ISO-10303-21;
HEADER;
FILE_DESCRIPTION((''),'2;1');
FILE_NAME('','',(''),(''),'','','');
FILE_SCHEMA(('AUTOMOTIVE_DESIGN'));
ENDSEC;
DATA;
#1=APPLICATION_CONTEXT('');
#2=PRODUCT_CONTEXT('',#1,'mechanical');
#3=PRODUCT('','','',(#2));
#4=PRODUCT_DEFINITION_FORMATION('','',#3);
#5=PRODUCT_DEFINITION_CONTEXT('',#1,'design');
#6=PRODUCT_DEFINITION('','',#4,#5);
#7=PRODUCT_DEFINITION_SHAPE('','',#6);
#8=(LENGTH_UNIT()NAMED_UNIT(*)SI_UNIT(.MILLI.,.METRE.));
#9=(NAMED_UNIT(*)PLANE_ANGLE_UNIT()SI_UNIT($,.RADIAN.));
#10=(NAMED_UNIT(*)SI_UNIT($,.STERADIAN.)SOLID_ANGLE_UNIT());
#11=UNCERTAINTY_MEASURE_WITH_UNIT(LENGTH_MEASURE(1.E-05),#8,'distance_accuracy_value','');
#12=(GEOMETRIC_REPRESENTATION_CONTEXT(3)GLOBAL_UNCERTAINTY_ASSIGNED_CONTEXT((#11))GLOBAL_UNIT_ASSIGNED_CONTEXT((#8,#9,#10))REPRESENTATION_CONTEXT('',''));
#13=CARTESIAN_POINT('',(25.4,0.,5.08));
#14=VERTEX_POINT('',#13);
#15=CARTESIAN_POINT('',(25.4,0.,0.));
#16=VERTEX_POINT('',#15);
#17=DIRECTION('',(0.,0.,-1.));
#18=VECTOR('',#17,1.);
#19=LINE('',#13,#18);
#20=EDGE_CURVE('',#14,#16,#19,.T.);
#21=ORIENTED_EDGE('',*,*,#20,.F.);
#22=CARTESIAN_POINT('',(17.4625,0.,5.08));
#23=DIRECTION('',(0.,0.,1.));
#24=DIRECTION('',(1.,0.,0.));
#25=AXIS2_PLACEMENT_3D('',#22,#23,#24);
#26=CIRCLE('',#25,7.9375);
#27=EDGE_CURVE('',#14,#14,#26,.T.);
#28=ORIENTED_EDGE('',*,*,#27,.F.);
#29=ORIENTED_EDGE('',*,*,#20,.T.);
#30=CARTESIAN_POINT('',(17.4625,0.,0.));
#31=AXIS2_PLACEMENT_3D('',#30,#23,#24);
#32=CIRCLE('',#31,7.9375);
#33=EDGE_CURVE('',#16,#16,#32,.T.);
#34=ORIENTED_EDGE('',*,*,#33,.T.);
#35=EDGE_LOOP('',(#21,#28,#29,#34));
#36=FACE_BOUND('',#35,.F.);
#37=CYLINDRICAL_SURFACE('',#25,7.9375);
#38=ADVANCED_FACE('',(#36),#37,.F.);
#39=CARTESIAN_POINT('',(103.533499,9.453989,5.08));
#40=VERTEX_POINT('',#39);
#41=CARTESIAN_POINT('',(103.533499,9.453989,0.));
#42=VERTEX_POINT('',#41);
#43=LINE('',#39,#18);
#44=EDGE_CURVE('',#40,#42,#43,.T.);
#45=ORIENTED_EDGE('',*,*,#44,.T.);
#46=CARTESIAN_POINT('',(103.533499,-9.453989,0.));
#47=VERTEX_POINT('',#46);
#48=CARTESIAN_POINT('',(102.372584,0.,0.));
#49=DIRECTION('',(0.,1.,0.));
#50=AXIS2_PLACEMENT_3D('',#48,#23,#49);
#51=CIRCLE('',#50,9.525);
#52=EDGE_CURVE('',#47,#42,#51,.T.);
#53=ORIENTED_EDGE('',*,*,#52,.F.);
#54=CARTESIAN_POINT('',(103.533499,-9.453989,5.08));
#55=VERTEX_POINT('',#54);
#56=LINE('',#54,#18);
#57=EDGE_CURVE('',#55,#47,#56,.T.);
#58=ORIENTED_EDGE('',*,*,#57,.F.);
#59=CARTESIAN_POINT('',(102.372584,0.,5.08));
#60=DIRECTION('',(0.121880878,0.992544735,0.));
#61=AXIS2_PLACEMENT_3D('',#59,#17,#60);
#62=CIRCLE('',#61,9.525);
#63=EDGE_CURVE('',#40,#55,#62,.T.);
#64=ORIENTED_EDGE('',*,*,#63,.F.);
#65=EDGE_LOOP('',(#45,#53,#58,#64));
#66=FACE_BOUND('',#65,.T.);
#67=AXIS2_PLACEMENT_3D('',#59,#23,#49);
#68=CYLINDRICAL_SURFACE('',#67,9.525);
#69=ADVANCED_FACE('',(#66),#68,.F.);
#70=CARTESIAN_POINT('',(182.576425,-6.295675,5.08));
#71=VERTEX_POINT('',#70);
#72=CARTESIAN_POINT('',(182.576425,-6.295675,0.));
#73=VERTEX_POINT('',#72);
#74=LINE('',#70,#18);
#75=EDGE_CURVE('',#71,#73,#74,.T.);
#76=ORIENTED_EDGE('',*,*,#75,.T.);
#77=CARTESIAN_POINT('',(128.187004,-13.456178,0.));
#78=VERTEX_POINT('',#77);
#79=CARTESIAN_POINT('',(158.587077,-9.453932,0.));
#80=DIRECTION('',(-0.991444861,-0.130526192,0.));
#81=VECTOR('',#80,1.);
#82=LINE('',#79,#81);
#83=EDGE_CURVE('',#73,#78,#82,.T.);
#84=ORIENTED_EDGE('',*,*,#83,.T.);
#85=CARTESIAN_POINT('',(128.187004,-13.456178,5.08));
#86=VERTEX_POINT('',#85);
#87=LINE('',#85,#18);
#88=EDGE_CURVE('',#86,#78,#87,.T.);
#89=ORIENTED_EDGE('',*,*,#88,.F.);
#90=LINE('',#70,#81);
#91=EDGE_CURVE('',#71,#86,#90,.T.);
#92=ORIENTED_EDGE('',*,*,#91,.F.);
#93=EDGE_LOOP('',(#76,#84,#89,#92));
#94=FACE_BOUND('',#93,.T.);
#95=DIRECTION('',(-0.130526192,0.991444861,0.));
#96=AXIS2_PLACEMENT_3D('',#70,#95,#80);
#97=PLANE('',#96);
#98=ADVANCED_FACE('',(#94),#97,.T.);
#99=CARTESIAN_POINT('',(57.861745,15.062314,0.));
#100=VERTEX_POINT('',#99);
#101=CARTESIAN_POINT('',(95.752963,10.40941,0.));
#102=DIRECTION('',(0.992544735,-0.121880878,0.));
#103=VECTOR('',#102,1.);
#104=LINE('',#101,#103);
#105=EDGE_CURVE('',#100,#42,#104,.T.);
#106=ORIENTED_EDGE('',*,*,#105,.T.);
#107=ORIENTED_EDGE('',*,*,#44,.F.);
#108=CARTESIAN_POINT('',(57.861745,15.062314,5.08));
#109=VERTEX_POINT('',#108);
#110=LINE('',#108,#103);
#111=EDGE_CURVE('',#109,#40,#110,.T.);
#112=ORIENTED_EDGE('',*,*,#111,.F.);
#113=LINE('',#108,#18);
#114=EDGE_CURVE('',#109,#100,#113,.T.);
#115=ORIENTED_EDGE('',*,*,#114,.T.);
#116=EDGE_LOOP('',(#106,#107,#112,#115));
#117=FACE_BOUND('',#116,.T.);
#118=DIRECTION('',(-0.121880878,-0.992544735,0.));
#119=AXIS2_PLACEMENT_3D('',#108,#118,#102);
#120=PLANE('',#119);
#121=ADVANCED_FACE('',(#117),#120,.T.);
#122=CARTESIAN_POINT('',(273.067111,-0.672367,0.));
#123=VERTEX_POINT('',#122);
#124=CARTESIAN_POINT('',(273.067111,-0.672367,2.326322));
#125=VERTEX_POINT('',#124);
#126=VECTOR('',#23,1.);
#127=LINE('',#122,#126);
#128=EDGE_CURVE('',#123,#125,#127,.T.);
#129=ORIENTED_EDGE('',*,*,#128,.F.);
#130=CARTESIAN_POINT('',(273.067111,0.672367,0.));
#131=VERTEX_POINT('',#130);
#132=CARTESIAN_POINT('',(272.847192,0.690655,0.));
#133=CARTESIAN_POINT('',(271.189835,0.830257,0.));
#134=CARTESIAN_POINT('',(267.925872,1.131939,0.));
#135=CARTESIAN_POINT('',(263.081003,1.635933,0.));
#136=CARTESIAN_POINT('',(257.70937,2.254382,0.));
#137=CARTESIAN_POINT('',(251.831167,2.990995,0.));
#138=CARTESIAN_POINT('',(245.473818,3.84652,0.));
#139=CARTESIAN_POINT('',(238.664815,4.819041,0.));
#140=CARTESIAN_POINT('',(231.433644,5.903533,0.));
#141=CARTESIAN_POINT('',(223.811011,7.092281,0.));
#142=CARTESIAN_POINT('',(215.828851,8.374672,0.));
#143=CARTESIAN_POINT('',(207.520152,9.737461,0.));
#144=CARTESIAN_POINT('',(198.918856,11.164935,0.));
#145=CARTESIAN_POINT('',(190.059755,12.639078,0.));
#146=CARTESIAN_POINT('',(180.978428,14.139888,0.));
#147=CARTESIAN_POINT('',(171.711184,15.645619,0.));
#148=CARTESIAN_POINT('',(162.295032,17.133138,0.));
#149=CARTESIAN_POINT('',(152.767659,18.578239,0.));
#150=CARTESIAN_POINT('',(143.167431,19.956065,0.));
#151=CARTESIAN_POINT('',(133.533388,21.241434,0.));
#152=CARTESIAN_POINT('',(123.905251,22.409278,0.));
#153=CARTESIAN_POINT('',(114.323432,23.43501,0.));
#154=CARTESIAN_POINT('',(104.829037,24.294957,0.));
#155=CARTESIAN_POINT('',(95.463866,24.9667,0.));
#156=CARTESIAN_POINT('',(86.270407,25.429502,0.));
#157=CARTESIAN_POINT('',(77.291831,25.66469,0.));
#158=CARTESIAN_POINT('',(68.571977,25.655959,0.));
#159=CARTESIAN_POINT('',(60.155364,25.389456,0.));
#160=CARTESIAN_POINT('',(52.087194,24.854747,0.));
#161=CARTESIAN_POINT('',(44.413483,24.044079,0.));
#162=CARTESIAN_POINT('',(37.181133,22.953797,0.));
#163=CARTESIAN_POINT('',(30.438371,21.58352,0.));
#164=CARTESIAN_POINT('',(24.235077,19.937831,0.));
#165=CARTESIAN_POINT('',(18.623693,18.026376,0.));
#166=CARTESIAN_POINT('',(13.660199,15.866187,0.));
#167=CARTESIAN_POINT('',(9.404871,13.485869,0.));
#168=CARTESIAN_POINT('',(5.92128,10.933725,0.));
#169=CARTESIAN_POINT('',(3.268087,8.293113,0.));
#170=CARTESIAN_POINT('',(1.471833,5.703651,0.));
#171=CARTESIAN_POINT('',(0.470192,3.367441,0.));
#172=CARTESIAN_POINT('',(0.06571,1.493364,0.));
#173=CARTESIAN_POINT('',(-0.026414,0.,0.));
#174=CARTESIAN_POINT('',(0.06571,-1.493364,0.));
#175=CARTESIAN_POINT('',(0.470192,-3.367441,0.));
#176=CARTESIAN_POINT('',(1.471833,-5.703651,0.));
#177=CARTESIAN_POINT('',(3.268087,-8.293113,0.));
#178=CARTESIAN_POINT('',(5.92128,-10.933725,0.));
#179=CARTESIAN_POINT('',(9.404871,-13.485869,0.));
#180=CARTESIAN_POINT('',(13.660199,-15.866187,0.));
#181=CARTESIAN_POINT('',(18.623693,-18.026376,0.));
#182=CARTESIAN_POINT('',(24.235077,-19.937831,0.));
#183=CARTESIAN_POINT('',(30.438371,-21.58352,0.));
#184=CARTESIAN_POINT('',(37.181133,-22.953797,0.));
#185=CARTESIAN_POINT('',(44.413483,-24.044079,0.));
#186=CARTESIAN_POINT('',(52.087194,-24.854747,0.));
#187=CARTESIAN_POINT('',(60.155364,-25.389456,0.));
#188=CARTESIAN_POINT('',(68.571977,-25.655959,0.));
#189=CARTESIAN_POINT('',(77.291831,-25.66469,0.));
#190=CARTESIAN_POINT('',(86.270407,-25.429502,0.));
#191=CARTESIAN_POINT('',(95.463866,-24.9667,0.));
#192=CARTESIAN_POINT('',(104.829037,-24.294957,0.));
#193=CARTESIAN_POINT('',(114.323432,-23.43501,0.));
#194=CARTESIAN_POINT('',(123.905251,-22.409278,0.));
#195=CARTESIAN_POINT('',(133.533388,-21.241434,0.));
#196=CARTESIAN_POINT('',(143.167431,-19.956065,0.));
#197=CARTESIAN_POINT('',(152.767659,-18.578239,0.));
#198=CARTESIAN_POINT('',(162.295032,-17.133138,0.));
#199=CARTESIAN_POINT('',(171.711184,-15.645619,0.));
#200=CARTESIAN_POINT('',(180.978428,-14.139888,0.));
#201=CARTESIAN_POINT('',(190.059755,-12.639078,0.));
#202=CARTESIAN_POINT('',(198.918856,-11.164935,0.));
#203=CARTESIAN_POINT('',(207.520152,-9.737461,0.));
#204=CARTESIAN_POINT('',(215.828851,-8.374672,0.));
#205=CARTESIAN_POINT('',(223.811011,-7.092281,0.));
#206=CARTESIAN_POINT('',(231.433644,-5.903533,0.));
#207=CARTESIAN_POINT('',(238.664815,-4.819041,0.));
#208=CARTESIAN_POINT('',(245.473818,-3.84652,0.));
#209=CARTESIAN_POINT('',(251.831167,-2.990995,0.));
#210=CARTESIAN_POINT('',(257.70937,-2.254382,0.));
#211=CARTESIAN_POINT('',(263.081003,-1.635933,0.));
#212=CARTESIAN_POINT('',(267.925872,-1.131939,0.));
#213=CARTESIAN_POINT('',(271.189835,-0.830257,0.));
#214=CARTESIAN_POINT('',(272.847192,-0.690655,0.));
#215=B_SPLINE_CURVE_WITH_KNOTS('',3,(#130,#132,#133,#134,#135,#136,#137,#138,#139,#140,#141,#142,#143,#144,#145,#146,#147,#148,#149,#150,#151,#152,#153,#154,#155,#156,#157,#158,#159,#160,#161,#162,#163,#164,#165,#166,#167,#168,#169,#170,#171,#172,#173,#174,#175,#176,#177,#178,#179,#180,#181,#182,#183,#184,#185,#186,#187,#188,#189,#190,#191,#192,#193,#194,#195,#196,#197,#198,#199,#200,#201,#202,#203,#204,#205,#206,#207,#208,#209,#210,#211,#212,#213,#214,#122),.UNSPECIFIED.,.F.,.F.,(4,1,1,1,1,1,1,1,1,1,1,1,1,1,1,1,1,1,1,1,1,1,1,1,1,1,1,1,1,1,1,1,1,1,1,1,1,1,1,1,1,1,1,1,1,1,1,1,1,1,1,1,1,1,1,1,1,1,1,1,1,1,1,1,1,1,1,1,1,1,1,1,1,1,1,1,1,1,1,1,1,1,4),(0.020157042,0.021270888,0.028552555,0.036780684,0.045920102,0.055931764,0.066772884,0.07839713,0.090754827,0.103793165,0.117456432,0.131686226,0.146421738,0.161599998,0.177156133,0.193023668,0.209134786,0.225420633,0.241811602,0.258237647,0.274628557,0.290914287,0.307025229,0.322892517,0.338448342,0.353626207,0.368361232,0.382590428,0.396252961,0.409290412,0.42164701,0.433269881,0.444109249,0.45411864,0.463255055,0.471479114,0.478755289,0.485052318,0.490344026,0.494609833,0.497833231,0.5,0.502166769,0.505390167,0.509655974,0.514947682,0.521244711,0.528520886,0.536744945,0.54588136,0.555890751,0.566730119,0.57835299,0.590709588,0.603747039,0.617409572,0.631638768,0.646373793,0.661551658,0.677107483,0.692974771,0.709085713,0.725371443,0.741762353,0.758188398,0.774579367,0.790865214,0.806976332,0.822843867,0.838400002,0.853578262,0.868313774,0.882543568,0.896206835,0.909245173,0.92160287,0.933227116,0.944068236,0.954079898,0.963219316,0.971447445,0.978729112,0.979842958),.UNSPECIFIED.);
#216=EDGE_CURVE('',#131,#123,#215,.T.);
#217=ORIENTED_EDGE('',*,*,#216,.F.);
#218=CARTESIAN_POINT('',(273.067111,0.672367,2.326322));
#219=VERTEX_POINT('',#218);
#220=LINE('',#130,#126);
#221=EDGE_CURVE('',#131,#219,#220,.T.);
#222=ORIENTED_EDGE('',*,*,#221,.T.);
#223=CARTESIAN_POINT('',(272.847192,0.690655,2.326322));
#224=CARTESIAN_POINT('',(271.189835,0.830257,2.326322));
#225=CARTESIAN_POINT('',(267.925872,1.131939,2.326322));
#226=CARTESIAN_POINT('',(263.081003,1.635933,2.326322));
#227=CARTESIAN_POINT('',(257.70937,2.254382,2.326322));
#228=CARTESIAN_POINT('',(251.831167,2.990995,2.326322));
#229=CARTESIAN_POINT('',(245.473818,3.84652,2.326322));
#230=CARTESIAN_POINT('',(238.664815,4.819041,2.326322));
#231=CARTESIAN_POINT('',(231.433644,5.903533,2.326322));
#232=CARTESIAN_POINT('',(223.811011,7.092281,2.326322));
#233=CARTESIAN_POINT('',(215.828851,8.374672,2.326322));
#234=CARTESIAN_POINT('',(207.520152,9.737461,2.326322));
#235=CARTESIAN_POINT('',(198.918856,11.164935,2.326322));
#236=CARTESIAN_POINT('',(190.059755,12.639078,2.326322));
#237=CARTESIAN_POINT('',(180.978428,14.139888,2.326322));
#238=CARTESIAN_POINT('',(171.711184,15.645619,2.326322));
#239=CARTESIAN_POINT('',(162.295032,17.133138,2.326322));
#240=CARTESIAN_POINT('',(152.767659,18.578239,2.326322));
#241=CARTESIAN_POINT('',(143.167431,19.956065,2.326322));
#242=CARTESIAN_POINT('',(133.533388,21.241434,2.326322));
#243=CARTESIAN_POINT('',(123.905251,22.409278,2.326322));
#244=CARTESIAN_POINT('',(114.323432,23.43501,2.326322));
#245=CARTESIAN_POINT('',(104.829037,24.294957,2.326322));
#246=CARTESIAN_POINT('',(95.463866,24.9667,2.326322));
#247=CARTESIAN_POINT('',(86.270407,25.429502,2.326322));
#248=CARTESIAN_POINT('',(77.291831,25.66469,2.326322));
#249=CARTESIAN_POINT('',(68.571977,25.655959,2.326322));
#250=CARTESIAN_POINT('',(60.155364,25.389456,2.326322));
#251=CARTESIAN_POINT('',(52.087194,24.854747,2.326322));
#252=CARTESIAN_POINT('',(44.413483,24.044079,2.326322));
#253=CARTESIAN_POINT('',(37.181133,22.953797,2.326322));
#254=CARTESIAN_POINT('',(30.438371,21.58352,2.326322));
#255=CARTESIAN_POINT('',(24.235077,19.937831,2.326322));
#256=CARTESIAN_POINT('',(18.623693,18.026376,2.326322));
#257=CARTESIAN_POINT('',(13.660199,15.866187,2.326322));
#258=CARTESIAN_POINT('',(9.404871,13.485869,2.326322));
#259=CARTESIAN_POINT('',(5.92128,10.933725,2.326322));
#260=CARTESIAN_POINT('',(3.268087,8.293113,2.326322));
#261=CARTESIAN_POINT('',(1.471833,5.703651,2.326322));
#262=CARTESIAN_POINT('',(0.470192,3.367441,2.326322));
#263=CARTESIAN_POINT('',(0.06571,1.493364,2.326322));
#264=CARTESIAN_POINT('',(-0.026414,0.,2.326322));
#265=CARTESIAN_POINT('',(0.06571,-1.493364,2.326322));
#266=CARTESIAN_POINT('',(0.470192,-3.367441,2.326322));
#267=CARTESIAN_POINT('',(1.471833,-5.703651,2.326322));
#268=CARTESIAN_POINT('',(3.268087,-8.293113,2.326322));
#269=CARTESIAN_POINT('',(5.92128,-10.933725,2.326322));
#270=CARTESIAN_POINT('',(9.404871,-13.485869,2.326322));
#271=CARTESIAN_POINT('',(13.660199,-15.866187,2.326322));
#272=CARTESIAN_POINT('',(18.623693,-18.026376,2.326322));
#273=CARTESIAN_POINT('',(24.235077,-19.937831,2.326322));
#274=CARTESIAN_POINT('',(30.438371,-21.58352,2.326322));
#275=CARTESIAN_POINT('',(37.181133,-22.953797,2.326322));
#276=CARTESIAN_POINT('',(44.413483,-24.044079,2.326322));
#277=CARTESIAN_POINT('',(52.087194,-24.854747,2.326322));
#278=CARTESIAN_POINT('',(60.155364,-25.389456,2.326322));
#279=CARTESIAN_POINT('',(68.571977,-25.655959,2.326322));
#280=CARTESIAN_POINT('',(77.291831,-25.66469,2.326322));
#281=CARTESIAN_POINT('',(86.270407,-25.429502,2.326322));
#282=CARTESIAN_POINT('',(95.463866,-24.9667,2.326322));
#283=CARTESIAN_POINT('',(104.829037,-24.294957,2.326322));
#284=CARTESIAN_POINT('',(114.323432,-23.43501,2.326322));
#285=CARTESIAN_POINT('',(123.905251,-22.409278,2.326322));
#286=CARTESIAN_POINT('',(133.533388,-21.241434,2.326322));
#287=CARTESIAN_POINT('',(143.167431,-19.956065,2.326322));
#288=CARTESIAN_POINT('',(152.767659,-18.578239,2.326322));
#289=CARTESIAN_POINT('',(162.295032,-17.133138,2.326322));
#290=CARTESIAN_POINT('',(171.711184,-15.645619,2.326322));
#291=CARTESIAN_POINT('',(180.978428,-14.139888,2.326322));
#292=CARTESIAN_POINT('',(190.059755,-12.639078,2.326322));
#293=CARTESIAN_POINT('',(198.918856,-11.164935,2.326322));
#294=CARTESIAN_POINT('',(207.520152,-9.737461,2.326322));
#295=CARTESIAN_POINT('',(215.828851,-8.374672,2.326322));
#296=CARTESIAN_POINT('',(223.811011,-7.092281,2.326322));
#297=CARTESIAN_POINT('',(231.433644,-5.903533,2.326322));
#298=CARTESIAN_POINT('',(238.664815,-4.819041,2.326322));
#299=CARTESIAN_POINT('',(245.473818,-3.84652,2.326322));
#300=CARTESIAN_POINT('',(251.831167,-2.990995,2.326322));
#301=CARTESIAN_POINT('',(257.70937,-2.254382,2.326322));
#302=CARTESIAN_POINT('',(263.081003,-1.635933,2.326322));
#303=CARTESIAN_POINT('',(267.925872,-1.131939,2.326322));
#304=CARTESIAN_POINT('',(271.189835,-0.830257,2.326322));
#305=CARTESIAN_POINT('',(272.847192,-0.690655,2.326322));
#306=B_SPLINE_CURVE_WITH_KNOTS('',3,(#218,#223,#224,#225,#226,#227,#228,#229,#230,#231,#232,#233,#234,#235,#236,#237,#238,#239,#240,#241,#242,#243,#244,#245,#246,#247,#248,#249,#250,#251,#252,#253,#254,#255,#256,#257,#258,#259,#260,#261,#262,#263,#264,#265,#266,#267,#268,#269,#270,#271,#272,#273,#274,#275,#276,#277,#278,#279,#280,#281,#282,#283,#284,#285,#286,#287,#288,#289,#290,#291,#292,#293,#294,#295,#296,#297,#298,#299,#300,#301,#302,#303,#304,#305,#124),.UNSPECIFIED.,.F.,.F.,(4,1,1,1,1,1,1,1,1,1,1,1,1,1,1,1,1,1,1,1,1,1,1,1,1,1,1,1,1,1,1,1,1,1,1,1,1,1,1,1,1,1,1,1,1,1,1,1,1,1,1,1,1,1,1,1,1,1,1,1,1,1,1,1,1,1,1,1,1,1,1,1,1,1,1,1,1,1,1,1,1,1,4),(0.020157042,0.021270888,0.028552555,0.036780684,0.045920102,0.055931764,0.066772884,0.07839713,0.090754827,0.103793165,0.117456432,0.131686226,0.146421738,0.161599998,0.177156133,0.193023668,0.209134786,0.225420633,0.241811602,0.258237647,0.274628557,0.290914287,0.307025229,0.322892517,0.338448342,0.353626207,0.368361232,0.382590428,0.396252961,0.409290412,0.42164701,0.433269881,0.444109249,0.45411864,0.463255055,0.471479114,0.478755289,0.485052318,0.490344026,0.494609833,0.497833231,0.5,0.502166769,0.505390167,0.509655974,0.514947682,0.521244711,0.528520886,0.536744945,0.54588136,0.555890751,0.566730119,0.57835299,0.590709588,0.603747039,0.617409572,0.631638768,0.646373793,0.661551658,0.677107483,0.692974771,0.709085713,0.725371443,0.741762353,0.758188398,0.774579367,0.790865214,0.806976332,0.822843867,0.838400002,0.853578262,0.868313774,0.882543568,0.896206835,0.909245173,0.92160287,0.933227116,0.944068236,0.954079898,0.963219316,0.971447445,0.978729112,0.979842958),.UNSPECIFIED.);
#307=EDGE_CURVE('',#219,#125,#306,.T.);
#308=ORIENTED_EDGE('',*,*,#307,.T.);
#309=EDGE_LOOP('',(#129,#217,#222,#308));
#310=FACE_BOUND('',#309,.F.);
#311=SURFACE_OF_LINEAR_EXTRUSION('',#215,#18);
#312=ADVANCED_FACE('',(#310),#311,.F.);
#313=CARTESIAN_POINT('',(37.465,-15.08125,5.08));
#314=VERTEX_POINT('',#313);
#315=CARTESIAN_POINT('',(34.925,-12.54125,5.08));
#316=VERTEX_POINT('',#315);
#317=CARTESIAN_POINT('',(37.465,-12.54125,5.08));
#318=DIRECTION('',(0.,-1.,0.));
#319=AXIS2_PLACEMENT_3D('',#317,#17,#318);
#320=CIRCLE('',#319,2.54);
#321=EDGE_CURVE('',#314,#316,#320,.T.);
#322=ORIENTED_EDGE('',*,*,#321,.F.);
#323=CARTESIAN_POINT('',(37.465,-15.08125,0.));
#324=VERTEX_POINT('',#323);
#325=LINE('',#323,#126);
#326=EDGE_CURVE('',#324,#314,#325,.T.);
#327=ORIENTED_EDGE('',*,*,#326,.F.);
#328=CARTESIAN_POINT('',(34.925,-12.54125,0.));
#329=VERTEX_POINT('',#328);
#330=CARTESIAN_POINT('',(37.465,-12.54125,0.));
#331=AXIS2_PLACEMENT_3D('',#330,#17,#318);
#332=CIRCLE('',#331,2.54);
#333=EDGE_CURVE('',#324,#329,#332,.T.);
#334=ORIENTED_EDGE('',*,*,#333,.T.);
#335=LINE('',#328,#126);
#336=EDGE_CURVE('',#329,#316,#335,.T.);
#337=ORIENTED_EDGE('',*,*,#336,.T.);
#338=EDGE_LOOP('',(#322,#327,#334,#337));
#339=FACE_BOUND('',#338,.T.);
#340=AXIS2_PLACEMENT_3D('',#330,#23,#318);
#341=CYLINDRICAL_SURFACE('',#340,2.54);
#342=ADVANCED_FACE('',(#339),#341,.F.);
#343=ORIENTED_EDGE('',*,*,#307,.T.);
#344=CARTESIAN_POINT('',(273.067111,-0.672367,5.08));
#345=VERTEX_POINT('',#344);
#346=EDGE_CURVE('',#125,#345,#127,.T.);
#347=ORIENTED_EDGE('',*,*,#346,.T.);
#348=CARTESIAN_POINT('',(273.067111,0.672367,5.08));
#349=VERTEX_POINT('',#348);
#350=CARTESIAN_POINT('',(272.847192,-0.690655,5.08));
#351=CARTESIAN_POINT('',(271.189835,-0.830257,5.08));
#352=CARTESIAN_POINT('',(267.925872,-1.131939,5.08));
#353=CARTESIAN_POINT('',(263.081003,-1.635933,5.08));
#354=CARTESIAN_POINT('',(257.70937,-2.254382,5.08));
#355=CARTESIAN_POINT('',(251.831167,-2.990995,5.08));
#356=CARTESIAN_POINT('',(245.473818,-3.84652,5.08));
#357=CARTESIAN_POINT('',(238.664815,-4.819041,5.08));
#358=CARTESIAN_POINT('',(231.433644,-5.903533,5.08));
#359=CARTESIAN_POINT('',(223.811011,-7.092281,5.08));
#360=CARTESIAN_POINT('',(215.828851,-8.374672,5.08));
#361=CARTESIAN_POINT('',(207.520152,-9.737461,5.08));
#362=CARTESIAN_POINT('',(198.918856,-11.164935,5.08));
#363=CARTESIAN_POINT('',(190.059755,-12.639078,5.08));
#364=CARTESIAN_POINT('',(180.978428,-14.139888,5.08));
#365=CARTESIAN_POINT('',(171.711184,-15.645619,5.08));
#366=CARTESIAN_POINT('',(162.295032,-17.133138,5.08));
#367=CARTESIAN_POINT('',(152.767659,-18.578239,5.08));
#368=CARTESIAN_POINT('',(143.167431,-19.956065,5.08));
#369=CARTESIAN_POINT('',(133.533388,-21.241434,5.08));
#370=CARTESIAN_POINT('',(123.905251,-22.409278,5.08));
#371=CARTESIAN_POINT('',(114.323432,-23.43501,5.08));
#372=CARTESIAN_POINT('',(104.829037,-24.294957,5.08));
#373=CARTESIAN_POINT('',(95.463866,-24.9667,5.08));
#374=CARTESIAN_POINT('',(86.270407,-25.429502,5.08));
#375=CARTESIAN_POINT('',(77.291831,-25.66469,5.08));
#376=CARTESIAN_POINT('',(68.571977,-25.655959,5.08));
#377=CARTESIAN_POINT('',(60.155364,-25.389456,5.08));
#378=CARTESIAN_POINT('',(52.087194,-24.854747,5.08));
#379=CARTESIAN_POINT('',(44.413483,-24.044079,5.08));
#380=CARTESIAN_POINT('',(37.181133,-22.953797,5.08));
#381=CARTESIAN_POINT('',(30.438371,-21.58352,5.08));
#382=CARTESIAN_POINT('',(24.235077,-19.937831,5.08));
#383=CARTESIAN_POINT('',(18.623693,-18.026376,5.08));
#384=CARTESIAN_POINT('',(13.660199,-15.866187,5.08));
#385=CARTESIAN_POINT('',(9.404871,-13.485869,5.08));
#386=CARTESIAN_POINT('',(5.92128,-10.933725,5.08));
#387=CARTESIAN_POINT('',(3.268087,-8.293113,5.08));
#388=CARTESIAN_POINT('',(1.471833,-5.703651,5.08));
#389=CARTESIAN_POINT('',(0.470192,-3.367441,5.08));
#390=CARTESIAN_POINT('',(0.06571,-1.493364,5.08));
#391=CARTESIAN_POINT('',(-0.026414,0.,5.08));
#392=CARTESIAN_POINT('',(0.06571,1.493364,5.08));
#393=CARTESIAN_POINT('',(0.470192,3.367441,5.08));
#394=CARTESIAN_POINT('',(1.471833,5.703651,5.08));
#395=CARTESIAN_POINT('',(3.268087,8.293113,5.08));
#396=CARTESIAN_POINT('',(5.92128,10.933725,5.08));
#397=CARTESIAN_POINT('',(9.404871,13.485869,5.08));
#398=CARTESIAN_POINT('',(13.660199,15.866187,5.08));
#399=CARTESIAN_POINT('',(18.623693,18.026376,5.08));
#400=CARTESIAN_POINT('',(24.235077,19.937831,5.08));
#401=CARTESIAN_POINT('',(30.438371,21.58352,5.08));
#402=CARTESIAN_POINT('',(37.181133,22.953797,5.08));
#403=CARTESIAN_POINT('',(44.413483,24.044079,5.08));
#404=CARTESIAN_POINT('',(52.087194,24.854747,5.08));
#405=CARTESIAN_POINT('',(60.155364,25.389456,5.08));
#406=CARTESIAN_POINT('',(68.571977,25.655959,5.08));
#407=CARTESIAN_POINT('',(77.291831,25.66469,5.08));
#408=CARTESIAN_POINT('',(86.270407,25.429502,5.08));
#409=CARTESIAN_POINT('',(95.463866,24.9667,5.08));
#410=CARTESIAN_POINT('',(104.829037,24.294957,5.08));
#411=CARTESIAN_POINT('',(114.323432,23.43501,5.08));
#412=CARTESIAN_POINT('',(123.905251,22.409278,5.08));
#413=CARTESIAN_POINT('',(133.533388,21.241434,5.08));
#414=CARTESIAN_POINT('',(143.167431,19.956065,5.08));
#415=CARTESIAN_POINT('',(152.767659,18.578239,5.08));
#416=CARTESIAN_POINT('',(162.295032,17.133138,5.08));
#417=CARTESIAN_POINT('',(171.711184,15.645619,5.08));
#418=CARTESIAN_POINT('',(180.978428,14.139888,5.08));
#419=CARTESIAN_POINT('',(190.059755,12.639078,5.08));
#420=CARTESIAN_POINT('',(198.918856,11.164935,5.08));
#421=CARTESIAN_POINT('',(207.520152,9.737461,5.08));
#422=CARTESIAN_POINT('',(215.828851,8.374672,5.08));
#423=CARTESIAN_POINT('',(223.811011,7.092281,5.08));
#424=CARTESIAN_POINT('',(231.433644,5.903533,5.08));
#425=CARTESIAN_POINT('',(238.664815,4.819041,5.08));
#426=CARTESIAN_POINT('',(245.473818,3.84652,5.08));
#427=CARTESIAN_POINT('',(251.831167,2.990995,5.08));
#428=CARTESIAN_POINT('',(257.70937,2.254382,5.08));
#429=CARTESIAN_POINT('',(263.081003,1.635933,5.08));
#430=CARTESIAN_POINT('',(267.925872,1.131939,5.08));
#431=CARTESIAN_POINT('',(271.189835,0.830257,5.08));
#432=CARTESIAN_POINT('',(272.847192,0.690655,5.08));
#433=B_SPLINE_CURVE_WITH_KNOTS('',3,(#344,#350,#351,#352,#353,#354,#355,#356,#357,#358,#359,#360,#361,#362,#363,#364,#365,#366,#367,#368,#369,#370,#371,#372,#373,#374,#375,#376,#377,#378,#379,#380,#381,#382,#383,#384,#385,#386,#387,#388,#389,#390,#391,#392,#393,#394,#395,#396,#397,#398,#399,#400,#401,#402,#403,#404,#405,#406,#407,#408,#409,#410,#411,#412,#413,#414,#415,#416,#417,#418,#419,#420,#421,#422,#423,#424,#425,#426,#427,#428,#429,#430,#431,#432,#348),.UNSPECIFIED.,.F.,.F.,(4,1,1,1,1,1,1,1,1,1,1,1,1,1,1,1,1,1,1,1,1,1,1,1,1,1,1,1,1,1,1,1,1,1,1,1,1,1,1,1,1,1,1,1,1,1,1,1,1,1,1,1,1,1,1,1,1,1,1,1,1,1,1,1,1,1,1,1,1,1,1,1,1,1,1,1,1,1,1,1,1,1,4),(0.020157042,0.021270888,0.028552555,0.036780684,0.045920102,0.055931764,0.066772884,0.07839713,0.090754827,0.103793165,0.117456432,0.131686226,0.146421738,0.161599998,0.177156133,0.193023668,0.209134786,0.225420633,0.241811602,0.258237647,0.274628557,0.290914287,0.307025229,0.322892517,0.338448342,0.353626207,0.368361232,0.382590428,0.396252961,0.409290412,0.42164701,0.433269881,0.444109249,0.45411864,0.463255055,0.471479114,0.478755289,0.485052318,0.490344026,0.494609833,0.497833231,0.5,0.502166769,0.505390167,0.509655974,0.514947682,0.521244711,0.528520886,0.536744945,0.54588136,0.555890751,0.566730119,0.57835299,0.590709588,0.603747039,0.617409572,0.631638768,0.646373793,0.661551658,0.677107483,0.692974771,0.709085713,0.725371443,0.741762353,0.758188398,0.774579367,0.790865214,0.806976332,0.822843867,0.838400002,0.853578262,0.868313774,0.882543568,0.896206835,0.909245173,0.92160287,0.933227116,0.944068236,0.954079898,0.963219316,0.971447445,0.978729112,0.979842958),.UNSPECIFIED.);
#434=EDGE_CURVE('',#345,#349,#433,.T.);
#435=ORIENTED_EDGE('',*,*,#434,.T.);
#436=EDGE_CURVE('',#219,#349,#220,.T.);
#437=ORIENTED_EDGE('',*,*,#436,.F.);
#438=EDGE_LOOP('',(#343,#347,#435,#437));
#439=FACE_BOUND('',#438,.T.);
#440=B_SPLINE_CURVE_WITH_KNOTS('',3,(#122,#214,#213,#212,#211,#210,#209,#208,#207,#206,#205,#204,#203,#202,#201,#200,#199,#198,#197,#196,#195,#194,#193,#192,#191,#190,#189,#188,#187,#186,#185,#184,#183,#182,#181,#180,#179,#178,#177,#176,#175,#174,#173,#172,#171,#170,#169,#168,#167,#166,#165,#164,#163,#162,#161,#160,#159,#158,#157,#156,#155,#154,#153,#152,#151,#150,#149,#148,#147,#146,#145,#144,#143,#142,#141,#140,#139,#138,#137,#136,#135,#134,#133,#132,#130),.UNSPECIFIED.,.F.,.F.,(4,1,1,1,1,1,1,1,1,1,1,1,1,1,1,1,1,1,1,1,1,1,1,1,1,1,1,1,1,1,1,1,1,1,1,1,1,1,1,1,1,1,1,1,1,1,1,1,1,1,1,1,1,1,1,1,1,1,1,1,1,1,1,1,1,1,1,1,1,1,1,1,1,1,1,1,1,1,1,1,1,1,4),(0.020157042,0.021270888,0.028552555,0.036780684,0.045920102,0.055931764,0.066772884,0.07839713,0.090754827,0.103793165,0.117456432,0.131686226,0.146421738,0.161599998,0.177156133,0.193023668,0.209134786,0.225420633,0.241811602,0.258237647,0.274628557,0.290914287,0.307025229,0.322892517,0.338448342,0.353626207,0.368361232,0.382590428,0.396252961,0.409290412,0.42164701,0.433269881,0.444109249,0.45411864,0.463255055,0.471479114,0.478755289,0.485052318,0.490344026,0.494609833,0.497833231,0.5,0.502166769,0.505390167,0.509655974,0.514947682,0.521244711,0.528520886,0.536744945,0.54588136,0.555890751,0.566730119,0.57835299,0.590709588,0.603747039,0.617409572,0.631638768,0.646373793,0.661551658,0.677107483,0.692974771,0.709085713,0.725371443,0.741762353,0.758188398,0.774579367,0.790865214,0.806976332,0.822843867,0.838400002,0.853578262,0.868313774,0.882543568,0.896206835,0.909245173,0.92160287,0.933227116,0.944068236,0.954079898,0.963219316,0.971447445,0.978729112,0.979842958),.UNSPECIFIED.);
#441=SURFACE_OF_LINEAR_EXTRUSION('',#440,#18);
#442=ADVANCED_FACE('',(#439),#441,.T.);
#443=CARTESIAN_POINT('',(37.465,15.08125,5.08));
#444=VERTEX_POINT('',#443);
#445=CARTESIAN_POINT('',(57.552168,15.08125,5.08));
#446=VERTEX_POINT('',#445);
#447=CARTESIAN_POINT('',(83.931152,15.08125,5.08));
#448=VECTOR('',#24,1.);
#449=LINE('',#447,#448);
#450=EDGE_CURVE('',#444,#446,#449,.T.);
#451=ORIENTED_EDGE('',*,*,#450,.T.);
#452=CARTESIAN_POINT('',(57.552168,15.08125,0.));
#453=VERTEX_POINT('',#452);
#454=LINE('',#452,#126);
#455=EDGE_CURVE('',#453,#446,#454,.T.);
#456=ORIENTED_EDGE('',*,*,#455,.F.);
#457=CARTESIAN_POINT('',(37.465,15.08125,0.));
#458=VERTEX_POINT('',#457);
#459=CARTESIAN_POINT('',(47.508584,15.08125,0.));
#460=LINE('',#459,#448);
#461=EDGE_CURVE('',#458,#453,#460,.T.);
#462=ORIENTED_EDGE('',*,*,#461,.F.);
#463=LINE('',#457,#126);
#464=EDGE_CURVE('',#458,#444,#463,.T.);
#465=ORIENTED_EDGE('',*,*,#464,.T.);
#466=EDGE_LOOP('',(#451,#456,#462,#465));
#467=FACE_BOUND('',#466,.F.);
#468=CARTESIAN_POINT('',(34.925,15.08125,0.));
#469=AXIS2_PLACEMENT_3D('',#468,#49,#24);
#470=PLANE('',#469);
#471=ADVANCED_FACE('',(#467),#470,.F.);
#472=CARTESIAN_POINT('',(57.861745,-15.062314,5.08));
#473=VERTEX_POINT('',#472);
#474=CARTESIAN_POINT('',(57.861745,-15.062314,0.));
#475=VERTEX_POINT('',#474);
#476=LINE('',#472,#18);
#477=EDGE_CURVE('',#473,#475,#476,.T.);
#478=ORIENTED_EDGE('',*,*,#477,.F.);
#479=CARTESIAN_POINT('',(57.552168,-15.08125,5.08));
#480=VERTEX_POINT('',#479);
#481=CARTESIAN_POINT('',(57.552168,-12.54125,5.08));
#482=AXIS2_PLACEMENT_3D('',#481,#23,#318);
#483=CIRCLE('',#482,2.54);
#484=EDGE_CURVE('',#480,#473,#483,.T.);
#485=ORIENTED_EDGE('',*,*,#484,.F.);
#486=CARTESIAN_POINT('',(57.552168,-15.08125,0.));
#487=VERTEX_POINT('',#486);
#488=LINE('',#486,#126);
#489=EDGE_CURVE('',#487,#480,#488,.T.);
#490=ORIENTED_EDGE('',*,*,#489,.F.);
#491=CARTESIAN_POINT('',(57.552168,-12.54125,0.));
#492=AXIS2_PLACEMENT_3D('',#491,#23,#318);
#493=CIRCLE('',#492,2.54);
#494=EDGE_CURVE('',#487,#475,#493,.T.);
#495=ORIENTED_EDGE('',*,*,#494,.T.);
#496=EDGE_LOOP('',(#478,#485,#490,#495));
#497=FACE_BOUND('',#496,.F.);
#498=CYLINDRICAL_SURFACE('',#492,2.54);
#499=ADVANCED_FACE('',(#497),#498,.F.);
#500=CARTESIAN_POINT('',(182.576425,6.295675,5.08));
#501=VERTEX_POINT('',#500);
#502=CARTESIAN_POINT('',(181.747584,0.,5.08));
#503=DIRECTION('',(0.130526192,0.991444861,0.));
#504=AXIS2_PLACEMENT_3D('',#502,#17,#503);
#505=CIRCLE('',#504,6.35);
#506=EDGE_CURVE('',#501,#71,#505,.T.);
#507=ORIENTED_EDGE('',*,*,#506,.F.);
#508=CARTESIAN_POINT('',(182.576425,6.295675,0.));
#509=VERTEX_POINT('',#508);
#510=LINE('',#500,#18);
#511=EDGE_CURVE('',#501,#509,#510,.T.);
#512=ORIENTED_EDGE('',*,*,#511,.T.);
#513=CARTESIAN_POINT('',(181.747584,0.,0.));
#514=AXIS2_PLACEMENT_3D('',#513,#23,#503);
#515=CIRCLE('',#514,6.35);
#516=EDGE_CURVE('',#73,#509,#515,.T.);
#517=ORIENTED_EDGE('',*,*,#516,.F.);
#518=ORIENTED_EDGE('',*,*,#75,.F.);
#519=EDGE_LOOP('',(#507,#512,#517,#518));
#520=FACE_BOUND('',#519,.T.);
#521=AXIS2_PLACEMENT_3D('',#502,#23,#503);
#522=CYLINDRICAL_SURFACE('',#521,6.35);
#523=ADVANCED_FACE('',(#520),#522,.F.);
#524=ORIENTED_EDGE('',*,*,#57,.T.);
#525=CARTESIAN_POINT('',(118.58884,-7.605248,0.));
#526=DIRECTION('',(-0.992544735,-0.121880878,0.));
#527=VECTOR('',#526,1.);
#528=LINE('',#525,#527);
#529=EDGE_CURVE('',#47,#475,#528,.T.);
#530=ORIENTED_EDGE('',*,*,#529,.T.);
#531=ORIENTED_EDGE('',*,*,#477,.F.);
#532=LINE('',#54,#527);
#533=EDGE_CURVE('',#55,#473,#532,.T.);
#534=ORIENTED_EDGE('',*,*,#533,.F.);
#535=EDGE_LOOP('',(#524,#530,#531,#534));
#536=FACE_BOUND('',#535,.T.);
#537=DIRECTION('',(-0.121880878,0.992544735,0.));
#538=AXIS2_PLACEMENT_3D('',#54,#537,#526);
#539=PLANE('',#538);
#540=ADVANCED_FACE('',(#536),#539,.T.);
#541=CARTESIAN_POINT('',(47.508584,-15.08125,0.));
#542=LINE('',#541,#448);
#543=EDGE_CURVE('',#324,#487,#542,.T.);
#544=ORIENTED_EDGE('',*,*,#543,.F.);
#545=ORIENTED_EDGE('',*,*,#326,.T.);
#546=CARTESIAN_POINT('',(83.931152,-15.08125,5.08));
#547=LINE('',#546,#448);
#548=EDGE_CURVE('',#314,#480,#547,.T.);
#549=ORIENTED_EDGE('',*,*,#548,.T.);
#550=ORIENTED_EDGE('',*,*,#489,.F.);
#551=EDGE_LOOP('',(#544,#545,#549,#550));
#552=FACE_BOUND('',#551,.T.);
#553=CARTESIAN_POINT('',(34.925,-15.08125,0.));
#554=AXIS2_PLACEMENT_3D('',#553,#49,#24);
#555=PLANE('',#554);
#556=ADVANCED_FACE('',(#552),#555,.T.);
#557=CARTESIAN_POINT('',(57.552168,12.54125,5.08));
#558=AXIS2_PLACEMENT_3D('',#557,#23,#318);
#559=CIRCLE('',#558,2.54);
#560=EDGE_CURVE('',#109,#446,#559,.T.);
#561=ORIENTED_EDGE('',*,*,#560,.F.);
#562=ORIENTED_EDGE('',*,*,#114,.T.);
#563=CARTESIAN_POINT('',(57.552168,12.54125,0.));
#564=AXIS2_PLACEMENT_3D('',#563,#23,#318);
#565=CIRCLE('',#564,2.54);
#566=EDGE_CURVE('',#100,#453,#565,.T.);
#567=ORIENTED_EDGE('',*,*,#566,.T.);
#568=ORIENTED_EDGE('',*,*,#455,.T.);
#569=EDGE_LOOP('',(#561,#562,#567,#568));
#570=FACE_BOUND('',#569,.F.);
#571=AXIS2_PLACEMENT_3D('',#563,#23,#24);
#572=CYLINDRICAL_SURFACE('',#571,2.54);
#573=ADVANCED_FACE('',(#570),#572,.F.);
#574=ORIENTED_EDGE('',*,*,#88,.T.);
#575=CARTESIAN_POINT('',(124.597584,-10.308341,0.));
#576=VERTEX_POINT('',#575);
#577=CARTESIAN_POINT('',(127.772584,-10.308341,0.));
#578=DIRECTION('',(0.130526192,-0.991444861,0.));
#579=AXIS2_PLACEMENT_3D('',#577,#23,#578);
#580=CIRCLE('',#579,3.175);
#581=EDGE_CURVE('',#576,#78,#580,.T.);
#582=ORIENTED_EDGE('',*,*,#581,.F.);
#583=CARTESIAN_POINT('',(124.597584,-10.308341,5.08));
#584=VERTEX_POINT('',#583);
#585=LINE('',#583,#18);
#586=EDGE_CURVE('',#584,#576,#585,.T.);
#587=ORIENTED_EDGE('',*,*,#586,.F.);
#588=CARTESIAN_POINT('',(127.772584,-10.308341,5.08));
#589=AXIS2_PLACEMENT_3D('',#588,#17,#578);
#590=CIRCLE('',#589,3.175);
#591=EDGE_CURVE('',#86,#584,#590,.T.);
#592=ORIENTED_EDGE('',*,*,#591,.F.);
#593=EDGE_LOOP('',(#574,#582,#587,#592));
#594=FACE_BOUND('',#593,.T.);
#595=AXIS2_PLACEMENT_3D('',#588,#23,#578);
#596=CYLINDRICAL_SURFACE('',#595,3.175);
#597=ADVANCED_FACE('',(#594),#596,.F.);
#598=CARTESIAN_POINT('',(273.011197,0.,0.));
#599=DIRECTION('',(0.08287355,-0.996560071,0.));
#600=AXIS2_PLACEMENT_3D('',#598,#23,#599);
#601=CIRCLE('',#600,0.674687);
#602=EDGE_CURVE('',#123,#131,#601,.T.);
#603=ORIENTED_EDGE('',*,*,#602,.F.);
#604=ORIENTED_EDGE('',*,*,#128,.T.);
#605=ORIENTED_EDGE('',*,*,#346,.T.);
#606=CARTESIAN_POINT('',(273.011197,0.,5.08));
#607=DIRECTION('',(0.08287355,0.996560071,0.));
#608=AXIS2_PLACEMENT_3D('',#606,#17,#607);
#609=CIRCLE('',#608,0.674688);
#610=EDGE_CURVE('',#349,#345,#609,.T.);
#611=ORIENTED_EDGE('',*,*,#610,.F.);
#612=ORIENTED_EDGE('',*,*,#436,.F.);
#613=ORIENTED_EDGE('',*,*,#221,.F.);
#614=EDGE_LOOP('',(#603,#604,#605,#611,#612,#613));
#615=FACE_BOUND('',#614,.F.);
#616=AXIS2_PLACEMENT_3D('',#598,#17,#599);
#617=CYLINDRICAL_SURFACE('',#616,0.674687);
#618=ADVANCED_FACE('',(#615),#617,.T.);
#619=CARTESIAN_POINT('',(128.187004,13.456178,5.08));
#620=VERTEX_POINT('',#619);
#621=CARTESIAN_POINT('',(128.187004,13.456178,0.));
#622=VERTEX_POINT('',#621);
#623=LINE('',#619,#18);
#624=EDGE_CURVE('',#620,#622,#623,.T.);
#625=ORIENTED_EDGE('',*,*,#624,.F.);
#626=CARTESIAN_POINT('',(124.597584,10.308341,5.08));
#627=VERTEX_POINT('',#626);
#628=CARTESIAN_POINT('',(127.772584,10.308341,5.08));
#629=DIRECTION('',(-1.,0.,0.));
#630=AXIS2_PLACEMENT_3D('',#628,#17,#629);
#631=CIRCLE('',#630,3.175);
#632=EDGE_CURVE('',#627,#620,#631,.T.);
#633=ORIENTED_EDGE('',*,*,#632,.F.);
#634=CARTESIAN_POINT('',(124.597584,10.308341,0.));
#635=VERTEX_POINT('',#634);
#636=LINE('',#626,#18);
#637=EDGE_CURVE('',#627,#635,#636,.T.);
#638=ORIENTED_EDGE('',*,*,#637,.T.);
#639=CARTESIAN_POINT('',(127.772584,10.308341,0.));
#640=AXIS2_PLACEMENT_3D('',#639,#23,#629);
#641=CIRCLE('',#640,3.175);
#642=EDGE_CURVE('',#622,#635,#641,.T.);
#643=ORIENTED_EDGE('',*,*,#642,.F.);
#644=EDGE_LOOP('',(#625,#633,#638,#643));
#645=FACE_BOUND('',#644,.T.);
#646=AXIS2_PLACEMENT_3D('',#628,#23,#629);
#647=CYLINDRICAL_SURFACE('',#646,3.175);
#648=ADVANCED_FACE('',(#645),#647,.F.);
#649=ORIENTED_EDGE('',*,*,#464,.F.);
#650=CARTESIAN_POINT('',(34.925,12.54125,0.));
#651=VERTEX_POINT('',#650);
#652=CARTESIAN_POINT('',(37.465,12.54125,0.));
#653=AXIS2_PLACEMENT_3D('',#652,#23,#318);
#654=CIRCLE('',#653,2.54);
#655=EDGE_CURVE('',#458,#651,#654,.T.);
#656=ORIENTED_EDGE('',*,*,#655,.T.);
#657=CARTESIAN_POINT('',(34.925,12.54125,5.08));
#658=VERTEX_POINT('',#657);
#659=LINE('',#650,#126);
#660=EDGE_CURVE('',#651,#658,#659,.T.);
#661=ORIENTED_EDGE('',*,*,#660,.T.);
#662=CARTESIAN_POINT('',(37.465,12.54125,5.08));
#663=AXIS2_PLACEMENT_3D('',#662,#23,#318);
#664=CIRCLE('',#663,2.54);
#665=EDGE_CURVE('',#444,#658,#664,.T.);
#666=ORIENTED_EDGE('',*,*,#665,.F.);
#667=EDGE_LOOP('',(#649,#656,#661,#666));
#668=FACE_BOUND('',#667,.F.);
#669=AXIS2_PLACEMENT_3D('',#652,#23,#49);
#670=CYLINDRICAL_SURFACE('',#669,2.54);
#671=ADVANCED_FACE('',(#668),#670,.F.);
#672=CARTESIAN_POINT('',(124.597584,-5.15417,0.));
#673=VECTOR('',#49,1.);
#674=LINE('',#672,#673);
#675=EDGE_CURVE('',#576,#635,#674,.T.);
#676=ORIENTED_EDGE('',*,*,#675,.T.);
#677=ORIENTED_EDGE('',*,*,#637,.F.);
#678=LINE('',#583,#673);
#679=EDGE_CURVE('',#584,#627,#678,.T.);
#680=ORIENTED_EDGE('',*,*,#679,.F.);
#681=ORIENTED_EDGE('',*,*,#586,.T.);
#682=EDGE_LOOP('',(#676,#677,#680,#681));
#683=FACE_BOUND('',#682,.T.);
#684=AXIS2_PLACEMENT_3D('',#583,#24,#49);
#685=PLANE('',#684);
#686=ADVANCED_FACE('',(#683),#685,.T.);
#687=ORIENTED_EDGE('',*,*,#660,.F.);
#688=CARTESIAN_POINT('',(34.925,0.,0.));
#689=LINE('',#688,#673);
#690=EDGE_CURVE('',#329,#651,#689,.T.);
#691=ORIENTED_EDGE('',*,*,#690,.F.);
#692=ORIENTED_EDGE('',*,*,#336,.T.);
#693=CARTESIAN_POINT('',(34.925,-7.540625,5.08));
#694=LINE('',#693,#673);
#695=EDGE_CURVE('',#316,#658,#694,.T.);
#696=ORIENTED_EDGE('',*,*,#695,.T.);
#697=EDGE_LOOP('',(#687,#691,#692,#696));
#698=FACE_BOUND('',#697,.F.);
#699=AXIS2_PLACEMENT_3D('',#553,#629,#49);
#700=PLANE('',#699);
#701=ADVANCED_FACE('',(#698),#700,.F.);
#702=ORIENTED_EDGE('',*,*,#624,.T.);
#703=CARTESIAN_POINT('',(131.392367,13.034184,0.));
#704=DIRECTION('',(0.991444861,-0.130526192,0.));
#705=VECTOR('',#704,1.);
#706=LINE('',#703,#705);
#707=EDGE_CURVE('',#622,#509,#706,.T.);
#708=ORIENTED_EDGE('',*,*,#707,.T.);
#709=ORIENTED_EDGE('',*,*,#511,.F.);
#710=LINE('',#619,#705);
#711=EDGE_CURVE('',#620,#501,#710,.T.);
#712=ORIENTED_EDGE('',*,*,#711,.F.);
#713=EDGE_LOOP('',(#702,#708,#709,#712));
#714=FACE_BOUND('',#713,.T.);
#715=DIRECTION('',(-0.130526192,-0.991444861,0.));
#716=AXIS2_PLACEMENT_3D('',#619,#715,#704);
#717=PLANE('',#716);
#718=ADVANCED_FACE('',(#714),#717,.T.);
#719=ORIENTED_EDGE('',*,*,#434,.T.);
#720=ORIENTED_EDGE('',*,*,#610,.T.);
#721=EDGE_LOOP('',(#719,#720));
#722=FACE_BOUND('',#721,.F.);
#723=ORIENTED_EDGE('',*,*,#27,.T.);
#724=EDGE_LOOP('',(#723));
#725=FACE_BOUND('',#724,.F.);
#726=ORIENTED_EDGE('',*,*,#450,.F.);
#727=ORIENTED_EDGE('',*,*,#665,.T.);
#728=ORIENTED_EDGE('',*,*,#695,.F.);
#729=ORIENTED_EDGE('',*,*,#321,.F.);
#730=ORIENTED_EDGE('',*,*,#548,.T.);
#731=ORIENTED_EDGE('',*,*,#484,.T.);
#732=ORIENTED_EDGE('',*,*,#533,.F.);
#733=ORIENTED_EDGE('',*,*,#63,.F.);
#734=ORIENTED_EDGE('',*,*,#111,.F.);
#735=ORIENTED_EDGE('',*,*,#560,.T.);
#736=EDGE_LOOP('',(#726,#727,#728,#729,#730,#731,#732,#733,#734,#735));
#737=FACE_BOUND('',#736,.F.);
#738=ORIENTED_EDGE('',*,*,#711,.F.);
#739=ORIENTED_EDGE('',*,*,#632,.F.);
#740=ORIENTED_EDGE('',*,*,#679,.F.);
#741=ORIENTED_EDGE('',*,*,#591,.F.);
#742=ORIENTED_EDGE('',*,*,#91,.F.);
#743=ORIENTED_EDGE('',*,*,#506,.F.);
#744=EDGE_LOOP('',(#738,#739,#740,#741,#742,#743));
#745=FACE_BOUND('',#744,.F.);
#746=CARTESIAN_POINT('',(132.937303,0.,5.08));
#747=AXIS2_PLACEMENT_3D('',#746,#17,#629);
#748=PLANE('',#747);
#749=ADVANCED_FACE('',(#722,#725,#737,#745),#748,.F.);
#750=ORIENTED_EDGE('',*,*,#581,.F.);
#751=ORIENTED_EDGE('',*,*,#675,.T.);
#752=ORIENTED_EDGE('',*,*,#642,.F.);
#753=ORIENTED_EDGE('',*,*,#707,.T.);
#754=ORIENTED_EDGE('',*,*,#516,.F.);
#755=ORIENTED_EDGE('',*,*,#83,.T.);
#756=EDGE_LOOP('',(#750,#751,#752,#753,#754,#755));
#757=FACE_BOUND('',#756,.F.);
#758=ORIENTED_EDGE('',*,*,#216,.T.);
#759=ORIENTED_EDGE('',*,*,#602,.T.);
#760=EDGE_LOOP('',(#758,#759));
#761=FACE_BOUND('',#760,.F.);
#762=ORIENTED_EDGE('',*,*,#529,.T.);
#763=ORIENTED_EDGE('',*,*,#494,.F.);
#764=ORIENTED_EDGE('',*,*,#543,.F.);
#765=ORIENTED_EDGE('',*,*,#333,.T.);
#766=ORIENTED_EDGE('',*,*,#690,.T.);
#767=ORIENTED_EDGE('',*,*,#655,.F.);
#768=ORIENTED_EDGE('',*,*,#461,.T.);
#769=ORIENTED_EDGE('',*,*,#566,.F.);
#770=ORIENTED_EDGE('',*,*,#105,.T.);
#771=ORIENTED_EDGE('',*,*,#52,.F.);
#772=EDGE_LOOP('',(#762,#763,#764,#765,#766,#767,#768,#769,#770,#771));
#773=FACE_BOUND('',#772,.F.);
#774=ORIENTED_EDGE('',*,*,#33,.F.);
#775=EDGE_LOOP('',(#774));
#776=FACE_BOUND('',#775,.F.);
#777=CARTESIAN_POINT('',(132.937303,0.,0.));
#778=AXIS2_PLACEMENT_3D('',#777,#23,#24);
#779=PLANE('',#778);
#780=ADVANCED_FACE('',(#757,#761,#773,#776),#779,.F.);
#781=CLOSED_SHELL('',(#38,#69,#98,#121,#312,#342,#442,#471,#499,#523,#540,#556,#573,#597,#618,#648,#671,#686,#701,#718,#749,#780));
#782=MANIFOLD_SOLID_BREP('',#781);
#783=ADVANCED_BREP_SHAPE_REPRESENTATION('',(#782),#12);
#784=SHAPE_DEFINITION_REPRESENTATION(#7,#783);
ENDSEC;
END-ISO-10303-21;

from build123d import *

# Parameters (mm, degrees)
BOSS_EXTRUDE1_DEPTH = 5.4737
SCALE1_SCALE        = 0.425
BOSS_EXTRUDE2_DEPTH = 5.08
SKETCH10_W          = 25.167167629
SKETCH10_H          = 30.1625
CUT_EXTRUDE6_DEPTH  = 6.0800001
FILLET1_R           = 2.54
CUT_EXTRUDE8_DEPTH  = 6.0800001
CUT_EXTRUDE9_DEPTH  = 6.0800001
SKETCH19_R          = 7.9375
CUT_EXTRUDE10_DEPTH = 6.0800001


with BuildPart() as part:
    # Sketch2 → Boss-Extrude1 (new body)
    with BuildSketch(Plane.XY):
        with BuildLine():
            add(Edge.make_bspline(
                [(642.510849283, 1.582039112), (641.993392355, 1.625070631), (638.093728429, 1.953546407), (630.413817462, 2.663385493), (619.014124193, 3.849253664), (606.374988512, 5.304428983), (592.543922516, 7.037634907), (577.585454095, 9.050636147), (561.564270734, 11.338919625), (544.549749946, 13.890665375), (526.614143658, 16.687720753), (507.832591566, 19.705111663), (488.282710288, 22.911672601), (468.044367735, 26.27043606), (447.199424328, 29.739007432), (425.831595832, 33.270324121), (404.02631566, 36.813220545), (381.870662856, 40.313266856), (359.453314895, 43.713502532), (336.86454415, 46.955447457), (314.196207315, 49.979843895), (291.541767704, 52.727712704), (268.996310773, 55.141201012), (246.65655865, 57.164603829), (224.620860897, 58.745176641), (202.989192599, 59.8341217), (181.863132616, 60.387506142), (161.345829027, 60.366961324), (141.542033828, 59.739895824), (122.558104573, 58.481758104), (104.502313427, 56.574303932), (87.485018636, 54.008935199), (71.619696083, 50.784752003), (57.023709725, 46.912543066), (43.82045433, 42.41500246), (32.141645239, 37.332204029), (22.129107375, 31.731455339), (13.932423524, 25.726412106), (7.689616489, 19.513207632), (3.463136343, 13.420354421), (1.106333228, 7.923389435), (0.154611582, 3.513796615), (-0.062151598, 0), (0.154611582, -3.513796615), (1.106333228, -7.923389435), (3.463136343, -13.420354421), (7.689616489, -19.513207632), (13.932423524, -25.726412106), (22.129107375, -31.731455339), (32.141645239, -37.332204029), (43.82045433, -42.41500246), (57.023709725, -46.912543066), (71.619696083, -50.784752003), (87.485018636, -54.008935199), (104.502313427, -56.574303932), (122.558104573, -58.481758104), (141.542033828, -59.739895824), (161.345829027, -60.366961324), (181.863132616, -60.387506142), (202.989192599, -59.8341217), (224.620860897, -58.745176641), (246.65655865, -57.164603829), (268.996310773, -55.141201012), (291.541767704, -52.727712704), (314.196207315, -49.979843895), (336.86454415, -46.955447457), (359.453314895, -43.713502532), (381.870662856, -40.313266856), (404.02631566, -36.813220545), (425.831595832, -33.270324121), (447.199424328, -29.739007432), (468.044367735, -26.27043606), (488.282710288, -22.911672601), (507.832591566, -19.705111663), (526.614143658, -16.687720753), (544.549749946, -13.890665375), (561.564270734, -11.338919625), (577.585454095, -9.050636147), (592.543922516, -7.037634907), (606.374988512, -5.304428983), (619.014124193, -3.849253664), (630.413817462, -2.663385493), (638.093728429, -1.953546407), (641.993392355, -1.625070631), (642.510849283, -1.582039112)],
                knots=[0.020157042, 0.020157042, 0.020157042, 0.020157042, 0.021270888, 0.028552555, 0.036780684, 0.045920102, 0.055931764, 0.066772884, 0.07839713, 0.090754827, 0.103793165, 0.117456432, 0.131686226, 0.146421738, 0.161599998, 0.177156133, 0.193023668, 0.209134786, 0.225420633, 0.241811602, 0.258237647, 0.274628557, 0.290914287, 0.307025229, 0.322892517, 0.338448342, 0.353626207, 0.368361232, 0.382590428, 0.396252961, 0.409290412, 0.42164701, 0.433269881, 0.444109249, 0.45411864, 0.463255055, 0.471479114, 0.478755289, 0.485052318, 0.490344026, 0.494609833, 0.497833231, 0.5, 0.502166769, 0.505390167, 0.509655974, 0.514947682, 0.521244711, 0.528520886, 0.536744945, 0.54588136, 0.555890751, 0.566730119, 0.57835299, 0.590709588, 0.603747039, 0.617409572, 0.631638768, 0.646373793, 0.661551658, 0.677107483, 0.692974771, 0.709085713, 0.725371443, 0.741762353, 0.758188398, 0.774579367, 0.790865214, 0.806976332, 0.822843867, 0.838400002, 0.853578262, 0.868313774, 0.882543568, 0.896206835, 0.909245173, 0.92160287, 0.933227116, 0.944068236, 0.954079898, 0.963219316, 0.971447445, 0.978729112, 0.979842958, 0.979842958, 0.979842958, 0.979842958], degree=3))
            ThreePointArc((642.510849283, -1.582039112), (643.966787522, 0), (642.510849283, 1.582039112))
        make_face()
    extrude(amount=BOSS_EXTRUDE1_DEPTH)


with BuildPart() as part_1:
    # Scale1: scaled about (0, 0, 0)
    add(part.part.scale(SCALE1_SCALE))

    # Sketch11 → Boss-Extrude2 (add)
    with BuildSketch(Plane(origin=(0, 0, 0), x_dir=(-1, 0, 0), z_dir=(0, 0, -1))):
        with BuildLine():
            ThreePointArc((-273.067110945, 0.672366623), (-273.685884697, 0), (-273.067110945, -0.672366623))
            add(Edge.make_bspline(
                [(-273.067110945, -0.672366623), (-272.847191751, -0.690655018), (-271.189834582, -0.830257223), (-267.925872421, -1.131938835), (-263.081002782, -1.635932807), (-257.709370118, -2.254382318), (-251.831167069, -2.990994836), (-245.473817991, -3.846520362), (-238.664815062, -4.819040841), (-231.433643727, -5.903532784), (-223.811011054, -7.09228132), (-215.828851416, -8.374672457), (-207.520151873, -9.737460855), (-198.918856287, -11.164935326), (-190.05975534, -12.639078159), (-180.978428229, -14.139887751), (-171.711184156, -15.645618732), (-162.295031714, -17.133138414), (-152.76765883, -18.578238576), (-143.167431264, -19.956065169), (-133.533388109, -21.241433655), (-123.905251274, -22.409277899), (-114.323432079, -23.43501043), (-104.829037426, -24.294956627), (-95.463865881, -24.966700073), (-86.270406855, -25.429501723), (-77.291831362, -25.66469011), (-68.571977336, -25.655958563), (-60.155364377, -25.389455725), (-52.087194443, -24.854747194), (-44.413483207, -24.044079171), (-37.18113292, -22.95379746), (-30.438370835, -21.583519601), (-24.235076633, -19.937830803), (-18.62369309, -18.026376046), (-13.660199227, -15.866186712), (-9.404870635, -13.485868519), (-5.921279998, -10.933725145), (-3.268087008, -8.293113244), (-1.471832946, -5.703650629), (-0.470191622, -3.36744051), (-0.065709922, -1.493363561), (0.026414429, 0), (-0.065709922, 1.493363561), (-0.470191622, 3.36744051), (-1.471832946, 5.703650629), (-3.268087008, 8.293113244), (-5.921279998, 10.933725145), (-9.404870635, 13.485868519), (-13.660199227, 15.866186712), (-18.62369309, 18.026376046), (-24.235076633, 19.937830803), (-30.438370835, 21.583519601), (-37.18113292, 22.95379746), (-44.413483207, 24.044079171), (-52.087194443, 24.854747194), (-60.155364377, 25.389455725), (-68.571977336, 25.655958563), (-77.291831362, 25.66469011), (-86.270406855, 25.429501723), (-95.463865881, 24.966700073), (-104.829037426, 24.294956627), (-114.323432079, 23.43501043), (-123.905251274, 22.409277899), (-133.533388109, 21.241433655), (-143.167431264, 19.956065169), (-152.76765883, 18.578238576), (-162.295031714, 17.133138414), (-171.711184156, 15.645618732), (-180.978428229, 14.139887751), (-190.05975534, 12.639078159), (-198.918856287, 11.164935326), (-207.520151873, 9.737460855), (-215.828851416, 8.374672457), (-223.811011054, 7.09228132), (-231.433643727, 5.903532784), (-238.664815062, 4.819040841), (-245.473817991, 3.846520362), (-251.831167069, 2.990994836), (-257.709370118, 2.254382318), (-263.081002782, 1.635932807), (-267.925872421, 1.131938835), (-271.189834582, 0.830257223), (-272.847191751, 0.690655018), (-273.067110945, 0.672366623)],
                knots=[0.020157042, 0.020157042, 0.020157042, 0.020157042, 0.021270888, 0.028552555, 0.036780684, 0.045920102, 0.055931764, 0.066772884, 0.07839713, 0.090754827, 0.103793165, 0.117456432, 0.131686226, 0.146421738, 0.161599998, 0.177156133, 0.193023668, 0.209134786, 0.225420633, 0.241811602, 0.258237647, 0.274628557, 0.290914287, 0.307025229, 0.322892517, 0.338448342, 0.353626207, 0.368361232, 0.382590428, 0.396252961, 0.409290412, 0.42164701, 0.433269881, 0.444109249, 0.45411864, 0.463255055, 0.471479114, 0.478755289, 0.485052318, 0.490344026, 0.494609833, 0.497833231, 0.5, 0.502166769, 0.505390167, 0.509655974, 0.514947682, 0.521244711, 0.528520886, 0.536744945, 0.54588136, 0.555890751, 0.566730119, 0.57835299, 0.590709588, 0.603747039, 0.617409572, 0.631638768, 0.646373793, 0.661551658, 0.677107483, 0.692974771, 0.709085713, 0.725371443, 0.741762353, 0.758188398, 0.774579367, 0.790865214, 0.806976332, 0.822843867, 0.838400002, 0.853578262, 0.868313774, 0.882543568, 0.896206835, 0.909245173, 0.92160287, 0.933227116, 0.944068236, 0.954079898, 0.963219316, 0.971447445, 0.978729112, 0.979842958, 0.979842958, 0.979842958, 0.979842958], degree=3))
        make_face()
    extrude(amount=-BOSS_EXTRUDE2_DEPTH)

    # Sketch10 → Cut-Extrude6 (cut, through all)
    with BuildSketch(Plane.XY):
        with Locations((47.508583814, 0)):
            Rectangle(SKETCH10_W, SKETCH10_H)
    extrude(amount=CUT_EXTRUDE6_DEPTH, mode=Mode.SUBTRACT)

    # Fillet1
    fillet1_edges = [part_1.edges().sort_by_distance(p)[0] for p in [
        (60.092167629, -15.08125, 2.54),
        (60.092167629, 15.08125, 2.54),
        (34.925, 15.08125, 2.54),
        (34.925, -15.08125, 2.54),
    ]]
    fillet(fillet1_edges, radius=FILLET1_R)

    # Sketch16 → Cut-Extrude8 (cut, through all)
    with BuildSketch(Plane.XY.offset(5.08)):
        with BuildLine():
            Line((102.372583815, -9.525), (100.594583815, -9.525))
            ThreePointArc((100.594583815, -9.525), (91.069583815, 0), (100.594583815, 9.525))
            Line((100.594583815, 9.525), (102.372583815, 9.525))
            ThreePointArc((102.372583815, 9.525), (111.897583815, 0), (102.372583815, -9.525))
        make_face()
    extrude(amount=-CUT_EXTRUDE8_DEPTH, mode=Mode.SUBTRACT)

    # Sketch18 → Cut-Extrude9 (cut, through all)
    with BuildSketch(Plane.XY.offset(5.08)):
        with BuildLine():
            Line((57.861745058, 15.062313628), (103.533499174, 9.453988604))
            ThreePointArc((103.533499174, 9.453988604), (111.897583815, 0), (103.533499174, -9.453988604))
            Line((103.533499174, -9.453988604), (57.861745058, -15.062313628))
            ThreePointArc((57.861745058, -15.062313628), (59.454524939, -14.224293869), (60.092167629, -12.54125))
            Line((60.092167629, -12.54125), (60.092167629, 12.54125))
            ThreePointArc((60.092167629, 12.54125), (59.454524939, 14.224293869), (57.861745058, 15.062313628))
        make_face()
    extrude(amount=-CUT_EXTRUDE9_DEPTH, mode=Mode.SUBTRACT)

    # Sketch19 → Cut-Extrude10 (cut, through all)
    with BuildSketch(Plane.XY.offset(5.08)):
        with Locations((17.4625, 0)):
            Circle(SKETCH19_R)
        with BuildLine():
            Line((128.187004475, 13.456177942), (182.576425135, 6.29567487))
            ThreePointArc((182.576425135, 6.29567487), (188.097583815, 0), (182.576425135, -6.29567487))
            Line((182.576425135, -6.29567487), (128.187004475, -13.456177942))
            ThreePointArc((128.187004475, -13.456177942), (125.679160852, -12.695431896), (124.597583815, -10.308340507))
            Line((124.597583815, -10.308340507), (124.597583815, 10.308340507))
            ThreePointArc((124.597583815, 10.308340507), (125.679160852, 12.695431896), (128.187004475, 13.456177942))
        make_face()
    extrude(amount=-CUT_EXTRUDE10_DEPTH, mode=Mode.SUBTRACT)


solid = part_1.part
